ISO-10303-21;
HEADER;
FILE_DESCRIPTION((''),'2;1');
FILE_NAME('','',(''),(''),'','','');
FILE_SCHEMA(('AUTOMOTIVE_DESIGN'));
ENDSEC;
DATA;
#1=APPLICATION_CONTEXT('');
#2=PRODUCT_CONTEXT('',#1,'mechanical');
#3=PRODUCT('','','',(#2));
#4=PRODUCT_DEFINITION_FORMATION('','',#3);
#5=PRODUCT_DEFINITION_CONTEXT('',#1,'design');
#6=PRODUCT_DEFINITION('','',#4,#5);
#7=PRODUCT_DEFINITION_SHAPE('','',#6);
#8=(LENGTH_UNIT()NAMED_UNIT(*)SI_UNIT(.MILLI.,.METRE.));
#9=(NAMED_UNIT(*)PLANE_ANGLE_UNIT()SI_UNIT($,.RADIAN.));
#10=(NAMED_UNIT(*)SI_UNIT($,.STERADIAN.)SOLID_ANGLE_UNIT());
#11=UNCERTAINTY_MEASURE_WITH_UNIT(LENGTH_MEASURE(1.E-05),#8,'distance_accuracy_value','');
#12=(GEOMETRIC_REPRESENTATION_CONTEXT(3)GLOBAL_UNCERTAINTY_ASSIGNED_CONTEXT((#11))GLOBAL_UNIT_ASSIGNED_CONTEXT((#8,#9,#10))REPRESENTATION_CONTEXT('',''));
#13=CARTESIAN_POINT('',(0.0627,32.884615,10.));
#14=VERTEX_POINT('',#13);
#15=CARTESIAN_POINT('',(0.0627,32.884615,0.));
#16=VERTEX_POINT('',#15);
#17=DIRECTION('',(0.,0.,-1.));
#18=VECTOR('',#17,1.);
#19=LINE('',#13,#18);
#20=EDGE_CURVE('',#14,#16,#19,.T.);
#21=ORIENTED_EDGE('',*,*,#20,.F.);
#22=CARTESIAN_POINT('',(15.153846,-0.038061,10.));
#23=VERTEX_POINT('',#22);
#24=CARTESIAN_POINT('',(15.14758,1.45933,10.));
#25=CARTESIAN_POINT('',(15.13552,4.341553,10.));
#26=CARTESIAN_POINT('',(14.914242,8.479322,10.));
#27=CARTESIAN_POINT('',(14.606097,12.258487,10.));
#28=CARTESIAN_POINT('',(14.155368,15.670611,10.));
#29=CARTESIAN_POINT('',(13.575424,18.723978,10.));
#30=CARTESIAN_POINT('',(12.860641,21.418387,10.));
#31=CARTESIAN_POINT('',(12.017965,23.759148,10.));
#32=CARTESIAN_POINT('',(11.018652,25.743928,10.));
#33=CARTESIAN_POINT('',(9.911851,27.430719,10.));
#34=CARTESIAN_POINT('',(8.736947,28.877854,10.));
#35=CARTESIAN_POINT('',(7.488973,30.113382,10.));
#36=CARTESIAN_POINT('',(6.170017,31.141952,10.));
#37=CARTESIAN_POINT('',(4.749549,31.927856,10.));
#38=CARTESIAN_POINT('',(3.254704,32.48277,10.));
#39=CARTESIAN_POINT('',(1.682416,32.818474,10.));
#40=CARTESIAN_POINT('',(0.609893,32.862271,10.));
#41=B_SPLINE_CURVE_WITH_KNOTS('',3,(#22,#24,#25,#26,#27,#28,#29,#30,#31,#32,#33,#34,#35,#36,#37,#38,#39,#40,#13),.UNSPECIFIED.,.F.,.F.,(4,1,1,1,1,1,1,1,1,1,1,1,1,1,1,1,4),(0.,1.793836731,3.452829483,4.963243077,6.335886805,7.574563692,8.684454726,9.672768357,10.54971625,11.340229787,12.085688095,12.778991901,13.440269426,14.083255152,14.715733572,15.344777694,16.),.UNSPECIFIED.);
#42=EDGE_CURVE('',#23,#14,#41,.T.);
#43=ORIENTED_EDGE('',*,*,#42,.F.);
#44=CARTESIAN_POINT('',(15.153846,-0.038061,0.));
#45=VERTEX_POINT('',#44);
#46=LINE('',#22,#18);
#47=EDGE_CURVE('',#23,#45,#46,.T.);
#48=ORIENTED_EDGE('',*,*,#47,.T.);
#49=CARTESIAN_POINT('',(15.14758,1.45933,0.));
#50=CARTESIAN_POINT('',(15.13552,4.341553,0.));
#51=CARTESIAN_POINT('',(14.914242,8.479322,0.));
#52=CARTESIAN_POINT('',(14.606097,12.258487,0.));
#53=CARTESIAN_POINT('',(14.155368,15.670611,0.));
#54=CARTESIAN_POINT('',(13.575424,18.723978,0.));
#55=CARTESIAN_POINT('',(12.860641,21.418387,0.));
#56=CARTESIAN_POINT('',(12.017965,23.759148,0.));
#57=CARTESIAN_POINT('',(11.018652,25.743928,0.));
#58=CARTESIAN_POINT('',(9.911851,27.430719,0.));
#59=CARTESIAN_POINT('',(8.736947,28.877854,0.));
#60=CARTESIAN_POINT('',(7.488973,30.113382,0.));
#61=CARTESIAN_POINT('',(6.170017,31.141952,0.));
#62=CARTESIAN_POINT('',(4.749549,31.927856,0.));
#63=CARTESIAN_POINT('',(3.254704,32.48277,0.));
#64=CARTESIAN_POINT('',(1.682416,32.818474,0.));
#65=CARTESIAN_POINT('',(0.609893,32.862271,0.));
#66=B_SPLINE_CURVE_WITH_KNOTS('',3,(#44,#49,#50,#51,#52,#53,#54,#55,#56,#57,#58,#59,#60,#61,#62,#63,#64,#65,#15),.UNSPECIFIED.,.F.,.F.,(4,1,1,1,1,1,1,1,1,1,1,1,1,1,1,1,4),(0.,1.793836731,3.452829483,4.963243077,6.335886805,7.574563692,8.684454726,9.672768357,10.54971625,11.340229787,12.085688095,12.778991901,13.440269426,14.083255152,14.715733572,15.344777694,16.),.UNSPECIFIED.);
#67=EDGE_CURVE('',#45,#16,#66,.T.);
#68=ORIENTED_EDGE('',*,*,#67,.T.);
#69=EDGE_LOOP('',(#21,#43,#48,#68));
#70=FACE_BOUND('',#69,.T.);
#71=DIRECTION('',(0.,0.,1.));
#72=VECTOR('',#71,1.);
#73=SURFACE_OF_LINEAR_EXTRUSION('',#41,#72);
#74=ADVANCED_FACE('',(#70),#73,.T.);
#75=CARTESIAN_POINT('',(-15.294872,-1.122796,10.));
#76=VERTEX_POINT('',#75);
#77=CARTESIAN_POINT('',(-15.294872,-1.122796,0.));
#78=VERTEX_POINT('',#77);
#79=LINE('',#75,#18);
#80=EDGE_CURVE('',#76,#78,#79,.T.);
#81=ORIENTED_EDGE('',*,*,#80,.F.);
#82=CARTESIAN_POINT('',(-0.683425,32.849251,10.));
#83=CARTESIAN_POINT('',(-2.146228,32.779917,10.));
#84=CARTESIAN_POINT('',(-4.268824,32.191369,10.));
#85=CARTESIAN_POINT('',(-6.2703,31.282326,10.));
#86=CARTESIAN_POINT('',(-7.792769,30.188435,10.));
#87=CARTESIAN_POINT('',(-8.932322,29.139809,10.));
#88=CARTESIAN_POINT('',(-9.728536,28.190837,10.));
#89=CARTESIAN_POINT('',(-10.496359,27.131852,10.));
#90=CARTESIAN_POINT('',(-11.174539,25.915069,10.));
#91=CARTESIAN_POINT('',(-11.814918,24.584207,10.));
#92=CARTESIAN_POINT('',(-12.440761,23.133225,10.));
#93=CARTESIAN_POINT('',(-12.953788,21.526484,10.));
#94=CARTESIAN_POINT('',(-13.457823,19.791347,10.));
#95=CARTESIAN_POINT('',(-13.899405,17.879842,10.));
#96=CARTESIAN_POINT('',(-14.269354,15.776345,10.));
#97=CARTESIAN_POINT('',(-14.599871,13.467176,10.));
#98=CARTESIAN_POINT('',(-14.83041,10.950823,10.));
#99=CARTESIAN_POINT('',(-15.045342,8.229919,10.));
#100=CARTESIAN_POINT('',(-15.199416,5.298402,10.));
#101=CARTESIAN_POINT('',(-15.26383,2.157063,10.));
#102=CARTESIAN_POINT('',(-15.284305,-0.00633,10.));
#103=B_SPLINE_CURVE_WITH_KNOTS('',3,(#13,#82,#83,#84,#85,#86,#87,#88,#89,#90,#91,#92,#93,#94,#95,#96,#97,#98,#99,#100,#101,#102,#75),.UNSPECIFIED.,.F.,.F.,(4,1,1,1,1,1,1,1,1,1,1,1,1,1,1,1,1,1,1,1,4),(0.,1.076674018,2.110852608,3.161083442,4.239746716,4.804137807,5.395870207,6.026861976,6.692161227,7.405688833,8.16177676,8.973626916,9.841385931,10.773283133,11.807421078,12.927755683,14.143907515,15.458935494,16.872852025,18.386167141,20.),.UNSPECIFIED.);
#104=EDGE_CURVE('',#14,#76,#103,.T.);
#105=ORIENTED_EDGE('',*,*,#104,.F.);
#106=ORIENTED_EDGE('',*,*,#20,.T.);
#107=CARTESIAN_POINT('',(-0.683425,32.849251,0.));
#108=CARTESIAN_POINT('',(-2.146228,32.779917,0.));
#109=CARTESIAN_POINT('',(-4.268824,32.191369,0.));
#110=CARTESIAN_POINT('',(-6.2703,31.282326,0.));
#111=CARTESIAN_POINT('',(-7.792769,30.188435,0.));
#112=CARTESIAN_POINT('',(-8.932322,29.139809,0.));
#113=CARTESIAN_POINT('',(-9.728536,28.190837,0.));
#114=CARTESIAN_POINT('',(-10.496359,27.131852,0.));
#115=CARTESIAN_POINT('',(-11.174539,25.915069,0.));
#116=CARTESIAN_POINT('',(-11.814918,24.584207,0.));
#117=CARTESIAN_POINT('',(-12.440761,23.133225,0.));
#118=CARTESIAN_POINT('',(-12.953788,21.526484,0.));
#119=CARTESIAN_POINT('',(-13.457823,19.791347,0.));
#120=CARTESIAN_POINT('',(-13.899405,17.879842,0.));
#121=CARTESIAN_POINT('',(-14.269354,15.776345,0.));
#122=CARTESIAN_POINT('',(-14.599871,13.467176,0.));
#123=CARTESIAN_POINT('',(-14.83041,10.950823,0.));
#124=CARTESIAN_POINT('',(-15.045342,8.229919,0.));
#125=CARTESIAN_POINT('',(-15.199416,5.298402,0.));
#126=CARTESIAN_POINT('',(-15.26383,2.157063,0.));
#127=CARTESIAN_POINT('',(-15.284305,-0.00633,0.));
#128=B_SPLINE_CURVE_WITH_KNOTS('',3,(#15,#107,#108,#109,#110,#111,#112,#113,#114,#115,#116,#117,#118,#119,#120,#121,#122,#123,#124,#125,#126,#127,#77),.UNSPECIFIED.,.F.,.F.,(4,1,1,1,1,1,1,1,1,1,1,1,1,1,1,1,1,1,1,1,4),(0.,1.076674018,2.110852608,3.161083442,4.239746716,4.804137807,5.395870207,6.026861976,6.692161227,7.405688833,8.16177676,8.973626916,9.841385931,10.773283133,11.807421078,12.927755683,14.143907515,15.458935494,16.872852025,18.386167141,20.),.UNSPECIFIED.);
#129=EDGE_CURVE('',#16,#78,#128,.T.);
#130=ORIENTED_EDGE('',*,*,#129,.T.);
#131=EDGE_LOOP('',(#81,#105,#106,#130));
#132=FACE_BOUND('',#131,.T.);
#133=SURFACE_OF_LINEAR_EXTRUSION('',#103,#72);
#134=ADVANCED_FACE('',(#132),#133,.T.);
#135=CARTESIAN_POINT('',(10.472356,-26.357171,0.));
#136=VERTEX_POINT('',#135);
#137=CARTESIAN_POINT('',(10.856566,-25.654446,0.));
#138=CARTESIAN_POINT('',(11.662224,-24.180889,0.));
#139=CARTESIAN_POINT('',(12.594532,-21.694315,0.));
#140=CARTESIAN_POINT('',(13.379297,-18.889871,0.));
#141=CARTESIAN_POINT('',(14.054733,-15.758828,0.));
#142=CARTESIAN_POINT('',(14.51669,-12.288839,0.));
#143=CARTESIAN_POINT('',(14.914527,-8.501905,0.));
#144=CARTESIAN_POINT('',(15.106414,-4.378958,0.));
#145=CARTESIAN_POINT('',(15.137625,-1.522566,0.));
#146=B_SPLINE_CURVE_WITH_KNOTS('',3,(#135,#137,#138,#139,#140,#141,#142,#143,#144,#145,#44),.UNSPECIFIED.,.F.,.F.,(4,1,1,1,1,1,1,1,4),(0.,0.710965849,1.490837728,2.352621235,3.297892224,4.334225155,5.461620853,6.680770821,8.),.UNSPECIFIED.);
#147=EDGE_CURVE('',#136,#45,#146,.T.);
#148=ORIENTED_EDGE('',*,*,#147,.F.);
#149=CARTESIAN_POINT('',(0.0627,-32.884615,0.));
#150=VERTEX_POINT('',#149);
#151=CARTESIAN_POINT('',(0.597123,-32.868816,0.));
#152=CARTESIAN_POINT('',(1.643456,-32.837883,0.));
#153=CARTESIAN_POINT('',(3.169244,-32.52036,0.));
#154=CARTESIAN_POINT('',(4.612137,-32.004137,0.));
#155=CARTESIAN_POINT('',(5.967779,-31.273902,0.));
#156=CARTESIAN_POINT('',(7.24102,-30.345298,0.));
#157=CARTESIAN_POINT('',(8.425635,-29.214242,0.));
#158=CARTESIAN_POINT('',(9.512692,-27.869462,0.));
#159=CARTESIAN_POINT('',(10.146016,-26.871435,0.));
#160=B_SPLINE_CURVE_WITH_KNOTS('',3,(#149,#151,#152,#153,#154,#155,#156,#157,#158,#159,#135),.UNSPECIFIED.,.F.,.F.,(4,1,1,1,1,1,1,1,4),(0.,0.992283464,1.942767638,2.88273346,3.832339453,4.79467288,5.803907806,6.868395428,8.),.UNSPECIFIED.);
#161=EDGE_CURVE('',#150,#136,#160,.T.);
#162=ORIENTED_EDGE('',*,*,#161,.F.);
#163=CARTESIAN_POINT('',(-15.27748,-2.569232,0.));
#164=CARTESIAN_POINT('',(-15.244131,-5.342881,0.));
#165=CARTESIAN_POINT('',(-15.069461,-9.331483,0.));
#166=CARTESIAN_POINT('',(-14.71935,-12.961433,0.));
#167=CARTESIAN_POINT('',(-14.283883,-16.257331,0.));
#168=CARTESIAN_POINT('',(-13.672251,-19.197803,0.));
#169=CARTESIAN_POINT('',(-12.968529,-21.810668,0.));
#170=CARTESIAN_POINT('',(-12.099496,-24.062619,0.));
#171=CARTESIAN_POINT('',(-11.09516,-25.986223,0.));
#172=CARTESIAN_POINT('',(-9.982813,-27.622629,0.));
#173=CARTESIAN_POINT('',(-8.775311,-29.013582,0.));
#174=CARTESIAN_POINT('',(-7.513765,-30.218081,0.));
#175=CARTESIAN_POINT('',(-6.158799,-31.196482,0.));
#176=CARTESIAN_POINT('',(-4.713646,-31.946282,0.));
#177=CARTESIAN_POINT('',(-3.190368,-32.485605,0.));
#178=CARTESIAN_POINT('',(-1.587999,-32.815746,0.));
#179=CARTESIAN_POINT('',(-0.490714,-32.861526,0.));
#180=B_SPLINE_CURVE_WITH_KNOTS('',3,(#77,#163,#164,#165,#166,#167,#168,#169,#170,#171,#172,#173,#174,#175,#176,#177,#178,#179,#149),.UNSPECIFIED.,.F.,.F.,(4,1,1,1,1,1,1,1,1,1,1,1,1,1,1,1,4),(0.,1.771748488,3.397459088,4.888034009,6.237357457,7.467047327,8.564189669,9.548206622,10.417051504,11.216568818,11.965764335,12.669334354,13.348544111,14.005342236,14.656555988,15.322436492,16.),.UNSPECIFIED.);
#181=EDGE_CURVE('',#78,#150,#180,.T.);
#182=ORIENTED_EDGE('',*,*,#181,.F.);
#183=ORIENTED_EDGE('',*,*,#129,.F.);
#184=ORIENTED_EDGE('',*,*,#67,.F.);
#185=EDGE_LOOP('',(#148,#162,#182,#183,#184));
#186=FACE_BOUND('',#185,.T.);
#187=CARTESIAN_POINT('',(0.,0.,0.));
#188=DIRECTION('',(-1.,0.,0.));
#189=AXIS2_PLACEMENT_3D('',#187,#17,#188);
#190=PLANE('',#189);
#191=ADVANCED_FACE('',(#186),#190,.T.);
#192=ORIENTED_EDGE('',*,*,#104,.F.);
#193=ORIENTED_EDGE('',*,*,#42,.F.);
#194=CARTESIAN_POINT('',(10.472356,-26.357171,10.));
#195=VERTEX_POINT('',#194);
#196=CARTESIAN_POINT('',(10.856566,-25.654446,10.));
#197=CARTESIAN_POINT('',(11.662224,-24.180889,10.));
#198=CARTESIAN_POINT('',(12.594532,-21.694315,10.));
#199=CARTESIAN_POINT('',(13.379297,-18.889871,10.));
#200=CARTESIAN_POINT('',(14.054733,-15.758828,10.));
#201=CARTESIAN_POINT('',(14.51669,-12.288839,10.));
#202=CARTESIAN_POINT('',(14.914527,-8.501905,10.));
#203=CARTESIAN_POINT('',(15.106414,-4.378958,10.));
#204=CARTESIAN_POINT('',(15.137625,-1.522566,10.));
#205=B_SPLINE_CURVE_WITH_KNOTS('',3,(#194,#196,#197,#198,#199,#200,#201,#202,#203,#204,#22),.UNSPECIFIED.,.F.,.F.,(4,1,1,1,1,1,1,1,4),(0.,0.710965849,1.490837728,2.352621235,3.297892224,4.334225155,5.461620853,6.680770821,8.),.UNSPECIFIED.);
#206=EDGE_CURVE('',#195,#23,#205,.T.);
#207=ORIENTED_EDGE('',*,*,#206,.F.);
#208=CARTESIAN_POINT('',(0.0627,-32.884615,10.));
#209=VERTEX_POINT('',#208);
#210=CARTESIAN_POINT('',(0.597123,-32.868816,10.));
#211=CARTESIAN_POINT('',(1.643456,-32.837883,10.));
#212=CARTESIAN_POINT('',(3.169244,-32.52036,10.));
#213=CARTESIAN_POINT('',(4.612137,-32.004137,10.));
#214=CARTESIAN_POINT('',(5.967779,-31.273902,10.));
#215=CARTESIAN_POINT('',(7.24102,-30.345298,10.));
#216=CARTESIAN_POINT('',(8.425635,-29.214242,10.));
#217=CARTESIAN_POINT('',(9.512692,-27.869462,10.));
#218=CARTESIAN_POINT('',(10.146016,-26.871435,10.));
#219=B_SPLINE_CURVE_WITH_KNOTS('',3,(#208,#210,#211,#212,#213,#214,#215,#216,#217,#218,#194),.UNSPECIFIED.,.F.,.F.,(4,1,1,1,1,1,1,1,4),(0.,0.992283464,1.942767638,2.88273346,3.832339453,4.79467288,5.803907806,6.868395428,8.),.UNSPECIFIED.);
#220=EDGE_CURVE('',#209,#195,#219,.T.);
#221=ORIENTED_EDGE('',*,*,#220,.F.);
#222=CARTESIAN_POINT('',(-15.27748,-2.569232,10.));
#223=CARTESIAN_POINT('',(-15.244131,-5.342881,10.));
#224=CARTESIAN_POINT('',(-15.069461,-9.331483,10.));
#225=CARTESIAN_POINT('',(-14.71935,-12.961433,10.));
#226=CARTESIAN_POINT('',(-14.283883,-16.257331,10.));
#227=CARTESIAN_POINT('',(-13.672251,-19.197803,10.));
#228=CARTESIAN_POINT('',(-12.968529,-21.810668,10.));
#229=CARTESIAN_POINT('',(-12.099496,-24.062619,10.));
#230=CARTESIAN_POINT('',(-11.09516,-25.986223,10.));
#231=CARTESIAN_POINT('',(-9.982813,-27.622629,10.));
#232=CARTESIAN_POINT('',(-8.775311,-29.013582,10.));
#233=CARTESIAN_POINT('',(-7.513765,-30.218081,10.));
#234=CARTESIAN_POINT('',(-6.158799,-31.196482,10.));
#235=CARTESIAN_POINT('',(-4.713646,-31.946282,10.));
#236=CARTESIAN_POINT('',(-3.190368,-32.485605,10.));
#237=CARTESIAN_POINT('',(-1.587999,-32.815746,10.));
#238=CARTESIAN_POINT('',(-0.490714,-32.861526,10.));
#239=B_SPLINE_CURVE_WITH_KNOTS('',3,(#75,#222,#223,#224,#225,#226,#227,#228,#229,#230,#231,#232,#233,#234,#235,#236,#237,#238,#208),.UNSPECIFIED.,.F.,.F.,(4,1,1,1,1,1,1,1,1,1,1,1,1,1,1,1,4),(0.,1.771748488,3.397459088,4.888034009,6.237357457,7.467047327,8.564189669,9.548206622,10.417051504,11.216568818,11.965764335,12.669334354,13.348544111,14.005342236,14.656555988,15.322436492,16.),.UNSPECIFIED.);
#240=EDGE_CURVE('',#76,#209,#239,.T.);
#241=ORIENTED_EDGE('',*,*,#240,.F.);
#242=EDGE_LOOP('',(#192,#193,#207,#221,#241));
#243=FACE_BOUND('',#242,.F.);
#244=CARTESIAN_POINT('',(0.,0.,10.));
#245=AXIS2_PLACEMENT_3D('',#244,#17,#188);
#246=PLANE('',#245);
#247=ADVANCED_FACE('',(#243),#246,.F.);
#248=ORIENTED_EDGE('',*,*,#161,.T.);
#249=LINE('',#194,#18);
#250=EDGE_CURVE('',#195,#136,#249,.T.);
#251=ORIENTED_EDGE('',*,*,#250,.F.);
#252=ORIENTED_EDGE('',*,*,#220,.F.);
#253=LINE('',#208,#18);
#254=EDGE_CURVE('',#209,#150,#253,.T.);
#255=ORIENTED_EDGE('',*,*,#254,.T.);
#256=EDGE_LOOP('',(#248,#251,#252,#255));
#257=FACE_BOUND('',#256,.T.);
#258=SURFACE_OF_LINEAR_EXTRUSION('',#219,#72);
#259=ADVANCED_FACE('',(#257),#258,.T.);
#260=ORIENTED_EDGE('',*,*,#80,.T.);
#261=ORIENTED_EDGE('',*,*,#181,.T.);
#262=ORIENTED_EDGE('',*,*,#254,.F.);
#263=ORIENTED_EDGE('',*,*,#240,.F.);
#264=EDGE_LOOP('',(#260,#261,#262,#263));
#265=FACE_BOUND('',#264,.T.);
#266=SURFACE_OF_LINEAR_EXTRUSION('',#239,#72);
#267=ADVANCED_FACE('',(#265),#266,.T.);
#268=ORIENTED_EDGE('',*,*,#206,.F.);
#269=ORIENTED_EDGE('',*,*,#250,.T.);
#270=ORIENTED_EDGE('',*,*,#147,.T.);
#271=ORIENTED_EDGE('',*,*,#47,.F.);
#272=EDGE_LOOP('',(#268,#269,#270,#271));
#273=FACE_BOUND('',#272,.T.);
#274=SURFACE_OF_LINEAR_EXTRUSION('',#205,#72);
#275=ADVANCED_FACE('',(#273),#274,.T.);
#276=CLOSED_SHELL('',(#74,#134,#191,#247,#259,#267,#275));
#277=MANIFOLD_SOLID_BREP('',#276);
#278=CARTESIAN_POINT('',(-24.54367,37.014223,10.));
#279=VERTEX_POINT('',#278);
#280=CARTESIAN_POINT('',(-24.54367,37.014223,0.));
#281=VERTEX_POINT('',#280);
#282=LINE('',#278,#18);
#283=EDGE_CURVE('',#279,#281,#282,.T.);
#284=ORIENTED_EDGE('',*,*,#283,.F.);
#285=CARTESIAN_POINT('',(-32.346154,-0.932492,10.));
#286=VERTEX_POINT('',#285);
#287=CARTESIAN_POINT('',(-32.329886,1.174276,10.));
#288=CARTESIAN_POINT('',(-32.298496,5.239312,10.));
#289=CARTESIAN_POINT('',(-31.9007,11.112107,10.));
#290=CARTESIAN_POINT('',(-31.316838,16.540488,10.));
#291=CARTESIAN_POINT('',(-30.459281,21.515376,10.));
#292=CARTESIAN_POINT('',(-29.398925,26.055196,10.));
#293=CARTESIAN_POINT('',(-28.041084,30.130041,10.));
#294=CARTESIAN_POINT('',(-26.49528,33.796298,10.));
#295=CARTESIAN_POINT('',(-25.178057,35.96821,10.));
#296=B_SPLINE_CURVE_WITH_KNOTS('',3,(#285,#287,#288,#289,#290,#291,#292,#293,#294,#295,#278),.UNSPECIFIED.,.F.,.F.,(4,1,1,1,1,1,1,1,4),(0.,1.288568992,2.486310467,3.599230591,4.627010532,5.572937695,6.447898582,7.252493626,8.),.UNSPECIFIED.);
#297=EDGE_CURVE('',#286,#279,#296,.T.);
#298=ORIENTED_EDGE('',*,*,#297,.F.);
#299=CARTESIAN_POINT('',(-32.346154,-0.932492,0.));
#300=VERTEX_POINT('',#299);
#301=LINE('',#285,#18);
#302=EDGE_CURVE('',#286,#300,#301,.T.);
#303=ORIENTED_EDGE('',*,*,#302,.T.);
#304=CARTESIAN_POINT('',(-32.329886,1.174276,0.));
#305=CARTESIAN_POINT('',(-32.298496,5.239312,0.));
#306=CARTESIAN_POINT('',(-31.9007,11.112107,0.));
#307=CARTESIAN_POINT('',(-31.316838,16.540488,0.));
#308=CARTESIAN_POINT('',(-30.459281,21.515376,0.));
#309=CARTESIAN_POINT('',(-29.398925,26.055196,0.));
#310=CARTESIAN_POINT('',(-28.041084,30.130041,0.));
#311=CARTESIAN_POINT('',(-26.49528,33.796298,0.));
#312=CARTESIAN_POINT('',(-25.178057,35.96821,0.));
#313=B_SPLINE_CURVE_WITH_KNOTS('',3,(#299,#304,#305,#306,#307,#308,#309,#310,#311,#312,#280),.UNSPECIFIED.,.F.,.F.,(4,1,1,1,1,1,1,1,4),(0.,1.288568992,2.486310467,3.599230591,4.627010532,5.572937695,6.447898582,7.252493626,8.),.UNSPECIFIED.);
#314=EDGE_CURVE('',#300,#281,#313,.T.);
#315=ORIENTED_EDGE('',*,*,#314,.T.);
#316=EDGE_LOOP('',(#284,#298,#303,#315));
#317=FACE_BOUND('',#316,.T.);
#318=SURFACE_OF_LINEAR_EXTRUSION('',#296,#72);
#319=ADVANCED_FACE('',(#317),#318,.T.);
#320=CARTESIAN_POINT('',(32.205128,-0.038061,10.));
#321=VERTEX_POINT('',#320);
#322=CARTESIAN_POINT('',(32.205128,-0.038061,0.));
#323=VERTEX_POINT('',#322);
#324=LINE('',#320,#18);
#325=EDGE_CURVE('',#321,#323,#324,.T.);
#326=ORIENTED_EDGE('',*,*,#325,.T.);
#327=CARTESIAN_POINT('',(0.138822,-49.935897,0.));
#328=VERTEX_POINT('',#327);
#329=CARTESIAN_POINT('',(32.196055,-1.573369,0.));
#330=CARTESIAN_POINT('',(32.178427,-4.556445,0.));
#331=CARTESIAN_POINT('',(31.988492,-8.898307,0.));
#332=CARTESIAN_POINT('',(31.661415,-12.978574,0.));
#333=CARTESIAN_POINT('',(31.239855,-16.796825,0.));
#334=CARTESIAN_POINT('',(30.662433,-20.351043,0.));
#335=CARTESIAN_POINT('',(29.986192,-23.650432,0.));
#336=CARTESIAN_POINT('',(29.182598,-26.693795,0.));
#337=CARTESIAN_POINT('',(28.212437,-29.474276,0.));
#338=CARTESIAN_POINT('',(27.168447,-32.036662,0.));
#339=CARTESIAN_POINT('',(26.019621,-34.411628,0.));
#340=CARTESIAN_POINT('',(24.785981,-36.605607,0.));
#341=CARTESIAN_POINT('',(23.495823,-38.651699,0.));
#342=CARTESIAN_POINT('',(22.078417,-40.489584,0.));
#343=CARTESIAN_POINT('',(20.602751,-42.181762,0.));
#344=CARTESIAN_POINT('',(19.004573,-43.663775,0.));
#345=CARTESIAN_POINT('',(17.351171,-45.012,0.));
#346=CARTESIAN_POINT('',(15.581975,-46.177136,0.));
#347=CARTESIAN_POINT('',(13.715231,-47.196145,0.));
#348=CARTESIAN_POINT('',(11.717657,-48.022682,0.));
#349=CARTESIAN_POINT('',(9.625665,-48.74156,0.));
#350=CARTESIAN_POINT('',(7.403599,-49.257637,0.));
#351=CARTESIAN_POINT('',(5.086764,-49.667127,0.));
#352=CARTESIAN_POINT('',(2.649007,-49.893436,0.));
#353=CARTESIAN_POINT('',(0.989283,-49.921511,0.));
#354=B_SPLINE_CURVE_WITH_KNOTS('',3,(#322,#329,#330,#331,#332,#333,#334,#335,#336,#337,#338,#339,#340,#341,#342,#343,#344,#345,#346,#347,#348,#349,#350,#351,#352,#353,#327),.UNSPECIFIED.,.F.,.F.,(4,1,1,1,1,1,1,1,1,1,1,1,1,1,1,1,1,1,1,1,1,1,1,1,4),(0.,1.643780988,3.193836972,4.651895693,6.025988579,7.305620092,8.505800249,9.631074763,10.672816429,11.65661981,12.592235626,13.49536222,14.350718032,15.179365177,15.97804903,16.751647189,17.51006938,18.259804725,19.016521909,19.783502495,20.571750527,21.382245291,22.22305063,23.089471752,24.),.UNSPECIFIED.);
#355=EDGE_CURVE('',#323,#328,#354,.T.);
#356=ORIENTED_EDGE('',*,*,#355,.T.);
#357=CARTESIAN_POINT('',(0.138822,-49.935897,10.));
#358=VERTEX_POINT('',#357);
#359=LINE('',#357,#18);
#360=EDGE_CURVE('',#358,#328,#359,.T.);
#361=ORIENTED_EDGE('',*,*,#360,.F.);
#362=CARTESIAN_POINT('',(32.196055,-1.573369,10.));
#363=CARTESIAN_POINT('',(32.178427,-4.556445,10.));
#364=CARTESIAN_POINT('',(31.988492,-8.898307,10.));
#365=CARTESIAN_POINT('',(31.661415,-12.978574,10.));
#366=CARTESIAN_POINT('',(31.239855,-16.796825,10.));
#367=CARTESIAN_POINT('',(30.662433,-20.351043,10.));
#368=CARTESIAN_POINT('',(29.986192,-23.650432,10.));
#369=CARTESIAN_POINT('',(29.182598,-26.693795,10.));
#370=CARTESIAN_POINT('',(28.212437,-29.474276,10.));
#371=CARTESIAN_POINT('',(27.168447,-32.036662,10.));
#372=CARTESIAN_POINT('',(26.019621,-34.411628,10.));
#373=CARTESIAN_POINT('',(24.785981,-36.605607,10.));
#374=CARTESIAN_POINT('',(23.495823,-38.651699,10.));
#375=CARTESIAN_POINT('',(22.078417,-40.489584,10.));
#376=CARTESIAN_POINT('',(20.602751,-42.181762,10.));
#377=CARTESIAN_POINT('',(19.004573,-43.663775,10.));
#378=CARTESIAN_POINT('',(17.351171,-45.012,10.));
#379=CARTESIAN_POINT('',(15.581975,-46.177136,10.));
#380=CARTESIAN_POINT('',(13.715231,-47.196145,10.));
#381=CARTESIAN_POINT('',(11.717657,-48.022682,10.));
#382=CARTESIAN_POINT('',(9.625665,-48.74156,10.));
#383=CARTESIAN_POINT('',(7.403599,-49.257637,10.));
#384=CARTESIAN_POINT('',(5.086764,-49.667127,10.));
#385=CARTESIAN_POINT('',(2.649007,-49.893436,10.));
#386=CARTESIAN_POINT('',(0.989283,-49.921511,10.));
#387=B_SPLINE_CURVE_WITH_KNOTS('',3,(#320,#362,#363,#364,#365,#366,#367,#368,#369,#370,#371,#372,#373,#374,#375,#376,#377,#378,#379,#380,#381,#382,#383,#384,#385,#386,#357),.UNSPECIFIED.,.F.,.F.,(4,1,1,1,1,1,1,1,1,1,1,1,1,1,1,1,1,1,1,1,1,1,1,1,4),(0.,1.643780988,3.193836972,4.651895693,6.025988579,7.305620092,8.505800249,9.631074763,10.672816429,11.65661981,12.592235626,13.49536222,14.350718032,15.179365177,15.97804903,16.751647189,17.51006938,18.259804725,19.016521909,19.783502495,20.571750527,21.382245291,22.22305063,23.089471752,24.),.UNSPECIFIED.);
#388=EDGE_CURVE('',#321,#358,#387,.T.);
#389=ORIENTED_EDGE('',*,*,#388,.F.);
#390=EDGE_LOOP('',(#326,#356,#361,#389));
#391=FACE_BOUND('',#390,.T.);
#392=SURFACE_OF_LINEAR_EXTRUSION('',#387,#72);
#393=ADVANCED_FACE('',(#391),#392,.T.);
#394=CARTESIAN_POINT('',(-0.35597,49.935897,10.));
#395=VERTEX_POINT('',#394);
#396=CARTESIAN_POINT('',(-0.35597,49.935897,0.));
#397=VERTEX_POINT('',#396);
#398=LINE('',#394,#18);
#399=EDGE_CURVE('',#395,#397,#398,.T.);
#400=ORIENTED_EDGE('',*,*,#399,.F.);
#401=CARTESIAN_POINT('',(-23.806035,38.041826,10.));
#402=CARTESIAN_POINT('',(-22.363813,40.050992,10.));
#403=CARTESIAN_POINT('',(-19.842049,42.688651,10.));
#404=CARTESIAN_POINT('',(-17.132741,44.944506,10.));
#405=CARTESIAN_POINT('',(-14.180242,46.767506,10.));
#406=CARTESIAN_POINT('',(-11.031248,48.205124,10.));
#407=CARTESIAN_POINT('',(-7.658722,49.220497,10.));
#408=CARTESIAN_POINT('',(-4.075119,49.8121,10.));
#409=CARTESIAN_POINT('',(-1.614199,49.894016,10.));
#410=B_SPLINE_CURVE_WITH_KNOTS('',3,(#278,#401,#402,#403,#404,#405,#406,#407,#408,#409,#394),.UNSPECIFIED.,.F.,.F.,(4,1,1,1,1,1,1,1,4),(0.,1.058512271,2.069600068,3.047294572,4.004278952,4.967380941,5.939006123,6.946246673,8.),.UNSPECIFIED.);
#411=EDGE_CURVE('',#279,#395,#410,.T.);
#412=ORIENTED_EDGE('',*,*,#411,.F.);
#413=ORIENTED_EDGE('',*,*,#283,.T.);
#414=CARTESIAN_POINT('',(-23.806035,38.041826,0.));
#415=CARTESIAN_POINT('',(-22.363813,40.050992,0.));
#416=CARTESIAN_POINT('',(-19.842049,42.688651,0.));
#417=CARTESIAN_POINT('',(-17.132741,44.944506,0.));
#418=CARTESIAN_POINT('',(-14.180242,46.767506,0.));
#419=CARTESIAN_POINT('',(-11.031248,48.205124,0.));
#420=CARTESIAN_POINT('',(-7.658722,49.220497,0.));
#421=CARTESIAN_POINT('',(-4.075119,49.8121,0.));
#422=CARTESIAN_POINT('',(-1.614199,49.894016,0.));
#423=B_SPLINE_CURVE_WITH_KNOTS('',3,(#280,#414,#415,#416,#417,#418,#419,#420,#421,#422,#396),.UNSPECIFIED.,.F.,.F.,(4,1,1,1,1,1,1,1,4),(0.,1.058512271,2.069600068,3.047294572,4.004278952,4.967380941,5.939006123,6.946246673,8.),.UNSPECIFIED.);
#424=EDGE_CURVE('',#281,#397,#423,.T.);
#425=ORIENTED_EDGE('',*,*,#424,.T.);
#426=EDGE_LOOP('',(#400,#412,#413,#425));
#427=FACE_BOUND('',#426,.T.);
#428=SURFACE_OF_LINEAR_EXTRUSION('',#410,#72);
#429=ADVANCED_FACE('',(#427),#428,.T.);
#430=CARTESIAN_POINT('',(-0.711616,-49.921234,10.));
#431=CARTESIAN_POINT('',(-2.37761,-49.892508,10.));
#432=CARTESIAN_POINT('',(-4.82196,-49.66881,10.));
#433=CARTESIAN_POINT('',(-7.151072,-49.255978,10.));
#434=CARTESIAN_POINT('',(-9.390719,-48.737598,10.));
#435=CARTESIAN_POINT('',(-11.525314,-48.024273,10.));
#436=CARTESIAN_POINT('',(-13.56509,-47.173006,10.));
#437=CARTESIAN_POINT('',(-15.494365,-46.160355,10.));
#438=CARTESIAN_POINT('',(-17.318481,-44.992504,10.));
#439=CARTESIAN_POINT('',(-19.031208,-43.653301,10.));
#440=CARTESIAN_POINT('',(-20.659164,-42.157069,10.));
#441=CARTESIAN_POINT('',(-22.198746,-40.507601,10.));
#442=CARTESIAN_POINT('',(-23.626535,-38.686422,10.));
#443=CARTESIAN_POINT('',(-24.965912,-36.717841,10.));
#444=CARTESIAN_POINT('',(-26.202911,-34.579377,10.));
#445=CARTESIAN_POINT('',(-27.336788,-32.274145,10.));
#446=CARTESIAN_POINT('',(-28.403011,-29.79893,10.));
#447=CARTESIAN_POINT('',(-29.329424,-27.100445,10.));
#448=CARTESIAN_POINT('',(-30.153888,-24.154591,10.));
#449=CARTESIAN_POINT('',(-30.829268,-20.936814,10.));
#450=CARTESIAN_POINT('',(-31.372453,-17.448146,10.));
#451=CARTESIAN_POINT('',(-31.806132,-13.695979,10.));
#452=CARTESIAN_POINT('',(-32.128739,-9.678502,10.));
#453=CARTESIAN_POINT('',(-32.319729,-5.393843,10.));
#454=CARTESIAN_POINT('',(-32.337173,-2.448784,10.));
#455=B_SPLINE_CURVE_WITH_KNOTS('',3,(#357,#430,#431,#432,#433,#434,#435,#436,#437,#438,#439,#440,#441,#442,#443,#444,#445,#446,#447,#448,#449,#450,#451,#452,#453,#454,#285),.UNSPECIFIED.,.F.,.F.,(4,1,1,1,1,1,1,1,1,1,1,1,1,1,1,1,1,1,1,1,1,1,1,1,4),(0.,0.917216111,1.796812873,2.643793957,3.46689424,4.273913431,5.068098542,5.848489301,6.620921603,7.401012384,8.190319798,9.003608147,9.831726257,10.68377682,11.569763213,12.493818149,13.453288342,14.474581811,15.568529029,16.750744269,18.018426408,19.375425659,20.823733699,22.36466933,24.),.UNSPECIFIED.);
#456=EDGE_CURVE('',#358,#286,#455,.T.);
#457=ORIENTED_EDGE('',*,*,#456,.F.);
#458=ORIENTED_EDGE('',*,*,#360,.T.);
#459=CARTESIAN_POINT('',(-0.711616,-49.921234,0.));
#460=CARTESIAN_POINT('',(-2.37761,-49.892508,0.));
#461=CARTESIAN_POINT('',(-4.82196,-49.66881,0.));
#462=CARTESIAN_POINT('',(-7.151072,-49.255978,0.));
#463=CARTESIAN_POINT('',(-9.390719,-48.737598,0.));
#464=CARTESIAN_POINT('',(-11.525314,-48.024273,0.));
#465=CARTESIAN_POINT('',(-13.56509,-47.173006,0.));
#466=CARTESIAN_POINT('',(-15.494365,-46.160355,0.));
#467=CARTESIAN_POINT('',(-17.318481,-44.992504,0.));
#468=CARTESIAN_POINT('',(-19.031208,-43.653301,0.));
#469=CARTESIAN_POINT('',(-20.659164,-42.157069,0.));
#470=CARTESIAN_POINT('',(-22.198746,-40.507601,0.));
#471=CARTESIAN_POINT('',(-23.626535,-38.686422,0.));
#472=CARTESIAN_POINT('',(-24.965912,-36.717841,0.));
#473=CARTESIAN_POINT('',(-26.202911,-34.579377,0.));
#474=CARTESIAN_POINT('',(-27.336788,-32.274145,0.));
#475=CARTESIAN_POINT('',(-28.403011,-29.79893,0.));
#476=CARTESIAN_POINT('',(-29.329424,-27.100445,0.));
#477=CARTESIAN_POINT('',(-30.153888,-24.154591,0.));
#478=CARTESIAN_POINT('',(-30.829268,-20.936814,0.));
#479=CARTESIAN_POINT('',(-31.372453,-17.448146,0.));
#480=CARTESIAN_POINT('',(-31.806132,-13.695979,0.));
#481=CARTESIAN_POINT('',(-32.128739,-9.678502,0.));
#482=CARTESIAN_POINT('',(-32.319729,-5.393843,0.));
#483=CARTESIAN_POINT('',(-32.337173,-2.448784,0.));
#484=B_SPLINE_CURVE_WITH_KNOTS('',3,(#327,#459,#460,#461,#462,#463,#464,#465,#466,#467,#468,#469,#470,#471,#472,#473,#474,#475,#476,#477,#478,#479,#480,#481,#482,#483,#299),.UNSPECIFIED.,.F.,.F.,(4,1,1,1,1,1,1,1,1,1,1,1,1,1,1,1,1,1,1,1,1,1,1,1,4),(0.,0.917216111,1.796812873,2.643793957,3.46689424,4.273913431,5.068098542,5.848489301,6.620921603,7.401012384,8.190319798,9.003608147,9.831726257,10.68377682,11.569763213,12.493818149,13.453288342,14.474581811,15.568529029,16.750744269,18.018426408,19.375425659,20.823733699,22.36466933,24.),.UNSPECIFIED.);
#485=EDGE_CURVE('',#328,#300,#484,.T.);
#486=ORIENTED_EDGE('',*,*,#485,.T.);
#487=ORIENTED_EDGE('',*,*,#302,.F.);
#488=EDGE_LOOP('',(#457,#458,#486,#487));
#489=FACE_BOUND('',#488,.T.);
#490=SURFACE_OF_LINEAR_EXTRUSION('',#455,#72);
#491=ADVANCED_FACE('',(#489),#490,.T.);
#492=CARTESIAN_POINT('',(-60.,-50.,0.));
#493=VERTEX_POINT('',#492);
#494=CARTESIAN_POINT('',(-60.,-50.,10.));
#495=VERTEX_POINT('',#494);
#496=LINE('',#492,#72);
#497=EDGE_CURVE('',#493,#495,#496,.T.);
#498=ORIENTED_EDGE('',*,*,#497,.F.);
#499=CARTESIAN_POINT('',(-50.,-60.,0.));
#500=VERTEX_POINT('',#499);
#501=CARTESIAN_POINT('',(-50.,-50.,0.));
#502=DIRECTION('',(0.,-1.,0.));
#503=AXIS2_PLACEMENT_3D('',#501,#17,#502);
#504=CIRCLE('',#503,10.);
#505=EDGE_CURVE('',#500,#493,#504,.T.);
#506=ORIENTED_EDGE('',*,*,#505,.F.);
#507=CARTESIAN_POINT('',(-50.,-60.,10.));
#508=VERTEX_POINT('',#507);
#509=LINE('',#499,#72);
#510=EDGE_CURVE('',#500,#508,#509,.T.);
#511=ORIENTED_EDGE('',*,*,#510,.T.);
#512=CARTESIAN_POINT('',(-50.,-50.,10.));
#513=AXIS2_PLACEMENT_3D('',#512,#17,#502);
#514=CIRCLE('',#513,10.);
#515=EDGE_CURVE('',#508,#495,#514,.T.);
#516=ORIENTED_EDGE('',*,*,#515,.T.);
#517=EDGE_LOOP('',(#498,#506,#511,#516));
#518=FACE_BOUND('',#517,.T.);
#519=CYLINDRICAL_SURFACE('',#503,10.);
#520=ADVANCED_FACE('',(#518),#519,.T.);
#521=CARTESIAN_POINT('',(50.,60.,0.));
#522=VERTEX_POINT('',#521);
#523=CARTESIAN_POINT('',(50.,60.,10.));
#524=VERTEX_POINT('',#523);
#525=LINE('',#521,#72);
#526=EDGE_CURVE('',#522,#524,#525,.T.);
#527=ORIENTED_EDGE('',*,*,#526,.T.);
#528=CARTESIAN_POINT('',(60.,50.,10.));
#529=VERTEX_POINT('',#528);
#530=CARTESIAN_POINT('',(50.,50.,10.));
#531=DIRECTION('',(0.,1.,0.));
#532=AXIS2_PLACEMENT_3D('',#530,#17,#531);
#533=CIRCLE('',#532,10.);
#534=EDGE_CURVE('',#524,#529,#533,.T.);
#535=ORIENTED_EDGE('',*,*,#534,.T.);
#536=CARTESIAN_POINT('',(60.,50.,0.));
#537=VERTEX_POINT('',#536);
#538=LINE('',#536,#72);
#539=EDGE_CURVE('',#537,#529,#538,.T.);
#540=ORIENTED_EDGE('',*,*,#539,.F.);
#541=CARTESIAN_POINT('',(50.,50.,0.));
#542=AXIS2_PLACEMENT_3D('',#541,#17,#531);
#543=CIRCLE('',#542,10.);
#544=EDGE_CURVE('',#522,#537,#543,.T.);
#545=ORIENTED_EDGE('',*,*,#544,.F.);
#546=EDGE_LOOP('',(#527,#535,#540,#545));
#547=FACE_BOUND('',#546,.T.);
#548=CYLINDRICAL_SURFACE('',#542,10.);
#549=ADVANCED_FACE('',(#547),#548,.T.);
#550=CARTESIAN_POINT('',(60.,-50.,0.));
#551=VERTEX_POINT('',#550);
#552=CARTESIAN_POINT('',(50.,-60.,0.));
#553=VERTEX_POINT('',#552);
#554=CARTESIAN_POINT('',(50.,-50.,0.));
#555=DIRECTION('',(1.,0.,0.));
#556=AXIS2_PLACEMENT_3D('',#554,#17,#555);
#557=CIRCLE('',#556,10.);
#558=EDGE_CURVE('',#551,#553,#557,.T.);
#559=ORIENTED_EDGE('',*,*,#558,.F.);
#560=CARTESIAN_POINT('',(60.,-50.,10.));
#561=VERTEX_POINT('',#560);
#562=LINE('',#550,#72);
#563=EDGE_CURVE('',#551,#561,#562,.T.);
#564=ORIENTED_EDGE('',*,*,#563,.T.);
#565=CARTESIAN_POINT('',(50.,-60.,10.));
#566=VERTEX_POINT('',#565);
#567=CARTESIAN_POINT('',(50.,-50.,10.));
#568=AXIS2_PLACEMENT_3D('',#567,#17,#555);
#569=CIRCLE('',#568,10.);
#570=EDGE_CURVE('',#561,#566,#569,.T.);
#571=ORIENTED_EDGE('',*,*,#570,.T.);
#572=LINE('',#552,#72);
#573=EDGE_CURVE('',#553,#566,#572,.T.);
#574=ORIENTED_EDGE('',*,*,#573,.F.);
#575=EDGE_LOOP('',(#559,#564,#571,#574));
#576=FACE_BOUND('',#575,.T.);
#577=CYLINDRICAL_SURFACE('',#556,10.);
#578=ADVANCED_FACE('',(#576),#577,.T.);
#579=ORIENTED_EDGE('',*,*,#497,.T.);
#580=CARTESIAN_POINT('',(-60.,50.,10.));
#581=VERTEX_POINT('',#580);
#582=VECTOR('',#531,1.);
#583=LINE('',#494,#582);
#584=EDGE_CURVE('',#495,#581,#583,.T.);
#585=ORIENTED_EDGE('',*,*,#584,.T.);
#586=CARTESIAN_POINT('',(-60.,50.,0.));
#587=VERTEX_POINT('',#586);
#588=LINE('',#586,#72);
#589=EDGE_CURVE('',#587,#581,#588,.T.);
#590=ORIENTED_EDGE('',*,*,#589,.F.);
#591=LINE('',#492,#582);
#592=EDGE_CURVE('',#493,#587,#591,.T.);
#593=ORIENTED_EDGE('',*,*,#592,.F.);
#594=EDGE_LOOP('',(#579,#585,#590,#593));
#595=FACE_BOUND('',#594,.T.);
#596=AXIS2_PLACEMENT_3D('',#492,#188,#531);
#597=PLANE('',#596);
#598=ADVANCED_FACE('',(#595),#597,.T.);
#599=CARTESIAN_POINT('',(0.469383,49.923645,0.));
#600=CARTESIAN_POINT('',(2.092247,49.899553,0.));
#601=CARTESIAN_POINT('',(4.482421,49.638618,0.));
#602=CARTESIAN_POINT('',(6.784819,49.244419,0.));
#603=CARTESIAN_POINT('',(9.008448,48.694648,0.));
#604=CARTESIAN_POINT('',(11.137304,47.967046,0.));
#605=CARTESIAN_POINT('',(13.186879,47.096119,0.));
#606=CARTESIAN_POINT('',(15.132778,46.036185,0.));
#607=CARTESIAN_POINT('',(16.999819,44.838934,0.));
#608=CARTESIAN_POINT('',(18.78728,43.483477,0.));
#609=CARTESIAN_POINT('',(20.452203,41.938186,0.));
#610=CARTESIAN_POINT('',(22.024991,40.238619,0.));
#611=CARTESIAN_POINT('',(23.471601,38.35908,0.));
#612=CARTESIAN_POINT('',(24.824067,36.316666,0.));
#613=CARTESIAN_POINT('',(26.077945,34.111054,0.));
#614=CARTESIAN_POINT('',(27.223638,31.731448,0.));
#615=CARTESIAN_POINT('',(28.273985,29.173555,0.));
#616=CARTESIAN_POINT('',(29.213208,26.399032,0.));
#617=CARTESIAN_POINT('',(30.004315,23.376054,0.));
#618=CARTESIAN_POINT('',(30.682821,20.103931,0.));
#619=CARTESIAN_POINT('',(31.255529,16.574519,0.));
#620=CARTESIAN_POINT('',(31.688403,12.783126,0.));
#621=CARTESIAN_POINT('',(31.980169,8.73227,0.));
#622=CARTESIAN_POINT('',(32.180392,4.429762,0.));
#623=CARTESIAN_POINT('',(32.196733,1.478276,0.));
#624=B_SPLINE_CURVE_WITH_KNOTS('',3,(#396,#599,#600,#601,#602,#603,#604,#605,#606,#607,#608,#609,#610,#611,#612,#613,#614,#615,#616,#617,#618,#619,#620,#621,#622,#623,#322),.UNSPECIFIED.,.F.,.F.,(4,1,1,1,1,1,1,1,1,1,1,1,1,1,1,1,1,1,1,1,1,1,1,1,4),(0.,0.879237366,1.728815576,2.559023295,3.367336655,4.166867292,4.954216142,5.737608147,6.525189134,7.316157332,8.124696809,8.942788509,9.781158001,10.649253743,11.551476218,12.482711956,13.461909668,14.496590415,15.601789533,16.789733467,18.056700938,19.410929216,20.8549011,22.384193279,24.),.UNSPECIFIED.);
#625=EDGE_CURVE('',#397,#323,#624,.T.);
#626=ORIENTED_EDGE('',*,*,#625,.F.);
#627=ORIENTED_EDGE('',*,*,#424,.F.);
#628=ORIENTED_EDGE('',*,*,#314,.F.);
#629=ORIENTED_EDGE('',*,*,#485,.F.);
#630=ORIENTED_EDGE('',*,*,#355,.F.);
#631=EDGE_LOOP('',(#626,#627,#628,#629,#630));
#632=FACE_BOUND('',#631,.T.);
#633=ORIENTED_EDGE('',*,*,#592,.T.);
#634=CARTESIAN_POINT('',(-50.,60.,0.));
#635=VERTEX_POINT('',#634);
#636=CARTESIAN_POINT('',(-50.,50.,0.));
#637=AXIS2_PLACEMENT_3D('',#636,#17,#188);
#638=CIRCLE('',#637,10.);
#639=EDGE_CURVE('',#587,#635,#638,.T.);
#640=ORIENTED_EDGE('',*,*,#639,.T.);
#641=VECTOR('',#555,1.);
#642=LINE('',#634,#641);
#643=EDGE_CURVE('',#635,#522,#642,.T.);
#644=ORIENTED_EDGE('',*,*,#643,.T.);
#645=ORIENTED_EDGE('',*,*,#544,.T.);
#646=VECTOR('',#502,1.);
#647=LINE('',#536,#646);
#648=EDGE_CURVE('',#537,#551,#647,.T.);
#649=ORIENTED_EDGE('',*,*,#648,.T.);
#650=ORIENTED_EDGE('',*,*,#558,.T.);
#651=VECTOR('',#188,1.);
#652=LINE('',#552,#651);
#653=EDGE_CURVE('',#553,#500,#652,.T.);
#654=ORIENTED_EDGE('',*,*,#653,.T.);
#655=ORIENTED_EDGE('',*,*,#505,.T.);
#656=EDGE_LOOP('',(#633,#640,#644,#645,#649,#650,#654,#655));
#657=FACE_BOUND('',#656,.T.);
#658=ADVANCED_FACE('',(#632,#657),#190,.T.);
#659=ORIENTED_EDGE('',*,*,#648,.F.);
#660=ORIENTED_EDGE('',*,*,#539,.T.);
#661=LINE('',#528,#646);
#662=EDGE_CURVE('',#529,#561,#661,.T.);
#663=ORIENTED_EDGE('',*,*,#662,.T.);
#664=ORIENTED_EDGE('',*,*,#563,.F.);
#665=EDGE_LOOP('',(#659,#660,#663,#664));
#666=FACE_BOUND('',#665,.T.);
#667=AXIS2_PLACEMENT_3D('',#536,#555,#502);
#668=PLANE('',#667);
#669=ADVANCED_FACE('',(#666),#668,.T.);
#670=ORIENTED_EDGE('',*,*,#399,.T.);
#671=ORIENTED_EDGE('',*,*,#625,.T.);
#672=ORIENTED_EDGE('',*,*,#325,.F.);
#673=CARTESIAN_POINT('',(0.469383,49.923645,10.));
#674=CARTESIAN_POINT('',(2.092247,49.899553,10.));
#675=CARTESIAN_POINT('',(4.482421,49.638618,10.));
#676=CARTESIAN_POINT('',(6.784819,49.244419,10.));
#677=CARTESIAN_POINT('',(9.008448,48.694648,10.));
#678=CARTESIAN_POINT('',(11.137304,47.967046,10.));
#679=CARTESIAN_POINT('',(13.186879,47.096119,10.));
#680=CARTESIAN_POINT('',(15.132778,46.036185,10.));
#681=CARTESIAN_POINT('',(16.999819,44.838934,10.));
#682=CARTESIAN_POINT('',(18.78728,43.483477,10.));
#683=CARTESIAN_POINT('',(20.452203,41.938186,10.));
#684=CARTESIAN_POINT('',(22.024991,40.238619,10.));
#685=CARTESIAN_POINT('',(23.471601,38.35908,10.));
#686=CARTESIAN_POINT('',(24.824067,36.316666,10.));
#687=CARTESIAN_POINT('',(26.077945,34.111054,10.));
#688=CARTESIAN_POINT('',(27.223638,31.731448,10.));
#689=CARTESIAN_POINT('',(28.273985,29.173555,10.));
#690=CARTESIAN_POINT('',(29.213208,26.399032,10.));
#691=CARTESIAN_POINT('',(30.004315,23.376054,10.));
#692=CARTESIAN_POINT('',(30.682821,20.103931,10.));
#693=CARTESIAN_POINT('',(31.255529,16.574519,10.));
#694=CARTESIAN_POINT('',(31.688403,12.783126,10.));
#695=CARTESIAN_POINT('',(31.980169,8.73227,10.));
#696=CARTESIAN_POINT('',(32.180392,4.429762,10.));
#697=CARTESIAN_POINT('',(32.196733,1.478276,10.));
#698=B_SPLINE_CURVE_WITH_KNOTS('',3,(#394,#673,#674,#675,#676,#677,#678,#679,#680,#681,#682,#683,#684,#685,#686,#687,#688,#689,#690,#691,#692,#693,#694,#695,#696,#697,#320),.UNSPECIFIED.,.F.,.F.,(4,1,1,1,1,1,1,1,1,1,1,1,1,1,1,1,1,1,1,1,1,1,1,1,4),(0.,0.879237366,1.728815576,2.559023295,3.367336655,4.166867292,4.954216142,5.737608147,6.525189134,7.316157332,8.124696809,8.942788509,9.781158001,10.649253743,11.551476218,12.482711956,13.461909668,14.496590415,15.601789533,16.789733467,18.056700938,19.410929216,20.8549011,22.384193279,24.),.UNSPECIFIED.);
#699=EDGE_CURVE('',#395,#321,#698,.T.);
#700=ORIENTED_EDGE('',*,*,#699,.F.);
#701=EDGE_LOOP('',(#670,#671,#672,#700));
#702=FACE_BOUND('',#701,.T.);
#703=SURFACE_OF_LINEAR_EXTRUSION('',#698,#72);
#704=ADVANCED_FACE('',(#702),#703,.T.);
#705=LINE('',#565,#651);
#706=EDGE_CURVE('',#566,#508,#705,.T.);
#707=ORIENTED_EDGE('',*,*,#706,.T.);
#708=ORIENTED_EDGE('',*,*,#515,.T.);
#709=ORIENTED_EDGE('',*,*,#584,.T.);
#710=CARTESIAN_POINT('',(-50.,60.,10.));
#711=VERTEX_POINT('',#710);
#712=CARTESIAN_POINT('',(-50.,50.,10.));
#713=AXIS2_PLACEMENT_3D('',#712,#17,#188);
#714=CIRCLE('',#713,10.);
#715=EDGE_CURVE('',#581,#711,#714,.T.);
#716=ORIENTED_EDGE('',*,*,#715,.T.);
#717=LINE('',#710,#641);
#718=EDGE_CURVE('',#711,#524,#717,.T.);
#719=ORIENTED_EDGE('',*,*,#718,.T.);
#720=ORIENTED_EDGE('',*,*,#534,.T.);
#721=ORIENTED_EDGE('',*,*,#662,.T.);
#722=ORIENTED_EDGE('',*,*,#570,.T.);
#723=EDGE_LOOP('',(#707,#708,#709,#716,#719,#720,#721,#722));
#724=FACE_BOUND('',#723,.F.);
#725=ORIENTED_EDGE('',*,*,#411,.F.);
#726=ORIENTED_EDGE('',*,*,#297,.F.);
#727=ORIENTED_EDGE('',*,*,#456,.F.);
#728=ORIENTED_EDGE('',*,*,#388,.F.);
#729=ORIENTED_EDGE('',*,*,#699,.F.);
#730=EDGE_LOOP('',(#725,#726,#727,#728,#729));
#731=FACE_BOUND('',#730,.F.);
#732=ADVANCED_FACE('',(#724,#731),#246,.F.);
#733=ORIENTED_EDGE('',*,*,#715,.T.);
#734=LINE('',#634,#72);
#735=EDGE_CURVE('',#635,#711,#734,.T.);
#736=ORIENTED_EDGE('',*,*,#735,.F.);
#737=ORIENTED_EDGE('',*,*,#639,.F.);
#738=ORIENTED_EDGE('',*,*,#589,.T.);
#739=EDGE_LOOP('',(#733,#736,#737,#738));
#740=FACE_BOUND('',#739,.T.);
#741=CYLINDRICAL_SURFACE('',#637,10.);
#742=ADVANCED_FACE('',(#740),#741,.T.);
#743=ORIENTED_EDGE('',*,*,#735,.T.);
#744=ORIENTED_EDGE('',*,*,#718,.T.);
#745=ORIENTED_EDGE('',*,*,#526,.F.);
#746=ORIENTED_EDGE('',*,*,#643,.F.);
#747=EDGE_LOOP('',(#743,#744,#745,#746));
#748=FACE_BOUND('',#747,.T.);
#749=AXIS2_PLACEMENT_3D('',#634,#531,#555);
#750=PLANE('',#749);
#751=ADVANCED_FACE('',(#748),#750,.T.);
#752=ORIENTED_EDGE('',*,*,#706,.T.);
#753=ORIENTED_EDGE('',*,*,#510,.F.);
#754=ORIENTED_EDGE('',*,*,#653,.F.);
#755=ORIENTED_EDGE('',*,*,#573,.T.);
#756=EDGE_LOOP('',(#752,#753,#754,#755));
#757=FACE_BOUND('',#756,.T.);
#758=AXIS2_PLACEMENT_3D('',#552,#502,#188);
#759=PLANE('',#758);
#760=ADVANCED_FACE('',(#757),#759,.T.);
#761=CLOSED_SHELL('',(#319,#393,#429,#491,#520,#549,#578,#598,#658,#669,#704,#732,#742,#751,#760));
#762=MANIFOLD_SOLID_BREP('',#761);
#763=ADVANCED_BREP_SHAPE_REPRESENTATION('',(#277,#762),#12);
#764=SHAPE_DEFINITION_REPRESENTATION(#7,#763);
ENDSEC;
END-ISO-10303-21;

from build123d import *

# Parameters (mm, degrees)
BOSS_EXTRUDE1_DEPTH = 10
CUT_EXTRUDE9_DEPTH  = 10


with BuildPart() as part:
    # Sketch1 → Boss-Extrude1 (new body)
    with BuildSketch(Plane.XY):
        with BuildLine():
            Line((-50, 60), (50, 60))
            ThreePointArc((50, 60), (57.071067812, 57.071067812), (60, 50))
            Line((60, 50), (60, -50))
            ThreePointArc((60, -50), (57.071067812, -57.071067812), (50, -60))
            Line((50, -60), (-50, -60))
            ThreePointArc((-50, -60), (-57.071067812, -57.071067812), (-60, -50))
            Line((-60, -50), (-60, 50))
            ThreePointArc((-60, 50), (-57.071067812, 57.071067812), (-50, 60))
        make_face()
    extrude(amount=BOSS_EXTRUDE1_DEPTH)

    # Sketch2 → Cut-Extrude9 (cut)
    with BuildSketch(Plane.XY.offset(10)):
        with BuildLine():
            add(Edge.make_bspline(
                [(-0.355969551, 49.935897436), (0.469383272, 49.923644841), (2.092247439, 49.899552965), (4.482420878, 49.638618324), (6.78481874, 49.244418855), (9.008448293, 48.694648055), (11.137303626, 47.967045984), (13.186878987, 47.096118777), (15.132778499, 46.036184508), (16.999818598, 44.838934314), (18.787280098, 43.483477371), (20.452202613, 41.938186469), (22.024991165, 40.238618816), (23.471600674, 38.359079999), (24.824066748, 36.316666414), (26.077945411, 34.111054202), (27.223637911, 31.731448367), (28.273984728, 29.173554722), (29.213208168, 26.399031546), (30.004314908, 23.376053852), (30.682821314, 20.103931296), (31.255528594, 16.574519064), (31.688402734, 12.783125727), (31.980168618, 8.732270097), (32.180392178, 4.429761628), (32.19673303, 1.47827617), (32.205128205, -0.038060897)],
                knots=[0, 0, 0, 0, 0.879237366, 1.728815576, 2.559023295, 3.367336655, 4.166867292, 4.954216142, 5.737608147, 6.525189134, 7.316157332, 8.124696809, 8.942788509, 9.781158001, 10.649253743, 11.551476218, 12.482711956, 13.461909668, 14.496590415, 15.601789533, 16.789733467, 18.056700938, 19.410929216, 20.8549011, 22.384193279, 24, 24, 24, 24], degree=3))
            add(Edge.make_bspline(
                [(32.205128205, -0.038060897), (32.196055289, -1.573369046), (32.178426775, -4.556445238), (31.98849197, -8.898306638), (31.661415261, -12.97857391), (31.239855194, -16.796824928), (30.662433215, -20.351043334), (29.986191811, -23.650432162), (29.182597691, -26.693795466), (28.212436531, -29.474275901), (27.168447487, -32.036661767), (26.019621026, -34.411627937), (24.785981031, -36.605607132), (23.495823484, -38.651698514), (22.078417204, -40.489584347), (20.602751349, -42.181762361), (19.004572794, -43.663775323), (17.351171034, -45.011999532), (15.581975276, -46.177135811), (13.715230768, -47.19614479), (11.717656699, -48.022682101), (9.625665447, -48.741560107), (7.403598595, -49.257636949), (5.086764482, -49.667126963), (2.649006517, -49.893436261), (0.989282707, -49.921511419), (0.138822115, -49.935897436)],
                knots=[0, 0, 0, 0, 1.643780988, 3.193836972, 4.651895693, 6.025988579, 7.305620092, 8.505800249, 9.631074763, 10.672816429, 11.65661981, 12.592235626, 13.49536222, 14.350718032, 15.179365177, 15.97804903, 16.751647189, 17.51006938, 18.259804725, 19.016521909, 19.783502495, 20.571750527, 21.382245291, 22.22305063, 23.089471752, 24, 24, 24, 24], degree=3))
            add(Edge.make_bspline(
                [(0.138822115, -49.935897436), (-0.711615522, -49.921233922), (-2.377610346, -49.892508314), (-4.82196025, -49.668809668), (-7.151072419, -49.255978097), (-9.390719391, -48.73759805), (-11.525313574, -48.02427269), (-13.565090283, -47.173005975), (-15.494365399, -46.160355104), (-17.318480783, -44.992504168), (-19.031208385, -43.653300599), (-20.659163982, -42.157068682), (-22.198746442, -40.50760098), (-23.626534898, -38.686422088), (-24.965912393, -36.717840949), (-26.202911339, -34.579377322), (-27.33678833, -32.27414476), (-28.403011249, -29.798930006), (-29.329424003, -27.100444523), (-30.153888339, -24.15459118), (-30.829267837, -20.936813858), (-31.372453222, -17.448146304), (-31.806132121, -13.695979411), (-32.128739375, -9.678502118), (-32.319729182, -5.393843179), (-32.337172823, -2.448783662), (-32.346153846, -0.932491987)],
                knots=[0, 0, 0, 0, 0.917216111, 1.796812873, 2.643793957, 3.46689424, 4.273913431, 5.068098542, 5.848489301, 6.620921603, 7.401012384, 8.190319798, 9.003608147, 9.831726257, 10.68377682, 11.569763213, 12.493818149, 13.453288342, 14.474581811, 15.568529029, 16.750744269, 18.018426408, 19.375425659, 20.823733699, 22.36466933, 24, 24, 24, 24], degree=3))
            add(Edge.make_bspline(
                [(-32.346153846, -0.932491987), (-32.329885562, 1.174275928), (-32.298495698, 5.239311758), (-31.900700289, 11.112106626), (-31.31683752, 16.540488165), (-30.459281419, 21.515376031), (-29.398925159, 26.055195758), (-28.041083756, 30.130041389), (-26.495280093, 33.796297553), (-25.178056781, 35.968209776), (-24.543669872, 37.014222756)],
                knots=[0, 0, 0, 0, 1.288568992, 2.486310467, 3.599230591, 4.627010532, 5.572937695, 6.447898582, 7.252493626, 8, 8, 8, 8], degree=3))
            add(Edge.make_bspline(
                [(-24.543669872, 37.014222756), (-23.806034991, 38.041825582), (-22.363813448, 40.050991593), (-19.842048768, 42.688651004), (-17.132740948, 44.944506494), (-14.180242351, 46.767506031), (-11.031247971, 48.205123615), (-7.658722091, 49.220496723), (-4.075118883, 49.812100409), (-1.614198783, 49.894015537), (-0.355969551, 49.935897436)],
                knots=[0, 0, 0, 0, 1.058512271, 2.069600068, 3.047294572, 4.004278952, 4.967380941, 5.939006123, 6.946246673, 8, 8, 8, 8], degree=3))
        make_face()
        with BuildLine():
            add(Edge.make_bspline(
                [(0.062700321, 32.884615385), (-0.683425475, 32.849250505), (-2.146228103, 32.779916569), (-4.268824412, 32.191369271), (-6.270300203, 31.282326235), (-7.79276938, 30.188435071), (-8.932322417, 29.139809208), (-9.728536295, 28.190836906), (-10.49635909, 27.13185221), (-11.174538847, 25.915068584), (-11.814917568, 24.584206505), (-12.440760604, 23.133224653), (-12.953787556, 21.526483777), (-13.457822935, 19.791346881), (-13.899404957, 17.879842038), (-14.269353885, 15.776344805), (-14.599870734, 13.467175948), (-14.830410177, 10.950822957), (-15.045342122, 8.229918558), (-15.199415519, 5.298401631), (-15.263829739, 2.157063038), (-15.28430506, -0.006330233), (-15.294871795, -1.122796474)],
                knots=[0, 0, 0, 0, 1.076674018, 2.110852608, 3.161083442, 4.239746716, 4.804137807, 5.395870207, 6.026861976, 6.692161227, 7.405688833, 8.16177676, 8.973626916, 9.841385931, 10.773283133, 11.807421078, 12.927755683, 14.143907515, 15.458935494, 16.872852025, 18.386167141, 20, 20, 20, 20], degree=3))
            add(Edge.make_bspline(
                [(-15.294871795, -1.122796474), (-15.277480231, -2.569232463), (-15.244130617, -5.342880716), (-15.069460926, -9.33148348), (-14.719350027, -12.961433168), (-14.283882757, -16.257331292), (-13.672251194, -19.19780307), (-12.968529489, -21.810668093), (-12.099495755, -24.062618675), (-11.095159828, -25.986223088), (-9.982812536, -27.622629365), (-8.775310618, -29.01358207), (-7.513765188, -30.218081489), (-6.158799311, -31.196481524), (-4.71364553, -31.94628221), (-3.19036822, -32.485604584), (-1.587999362, -32.815746269), (-0.490713686, -32.861526307), (0.062700321, -32.884615385)],
                knots=[0, 0, 0, 0, 1.771748488, 3.397459088, 4.888034009, 6.237357457, 7.467047327, 8.564189669, 9.548206622, 10.417051504, 11.216568818, 11.965764335, 12.669334354, 13.348544111, 14.005342236, 14.656555988, 15.322436492, 16, 16, 16, 16], degree=3))
            add(Edge.make_bspline(
                [(0.062700321, -32.884615385), (0.597122912, -32.868816122), (1.643455894, -32.837883131), (3.169243716, -32.520360132), (4.612137098, -32.004136701), (5.967779494, -31.273902417), (7.241019849, -30.345297795), (8.425635348, -29.214242154), (9.51269186, -27.869461502), (10.146015918, -26.871435372), (10.472355769, -26.357171474)],
                knots=[0, 0, 0, 0, 0.992283464, 1.942767638, 2.88273346, 3.832339453, 4.79467288, 5.803907806, 6.868395428, 8, 8, 8, 8], degree=3))
            add(Edge.make_bspline(
                [(10.472355769, -26.357171474), (10.856565983, -25.654446294), (11.662223642, -24.18088858), (12.594532076, -21.694314882), (13.379297353, -18.889870725), (14.054733351, -15.758828412), (14.516690372, -12.288838726), (14.914527194, -8.501905171), (15.106413779, -4.378958283), (15.137625178, -1.522565806), (15.153846154, -0.038060897)],
                knots=[0, 0, 0, 0, 0.710965849, 1.490837728, 2.352621235, 3.297892224, 4.334225155, 5.461620853, 6.680770821, 8, 8, 8, 8], degree=3))
            add(Edge.make_bspline(
                [(15.153846154, -0.038060897), (15.147580341, 1.45933023), (15.135519722, 4.341552532), (14.914242276, 8.479321703), (14.606096526, 12.258487118), (14.15536825, 15.670611435), (13.575424398, 18.723977801), (12.860641413, 21.418386611), (12.017965444, 23.759148028), (11.01865217, 25.743927991), (9.91185063, 27.430718692), (8.736947008, 28.877854275), (7.488973334, 30.113382125), (6.170016624, 31.14195175), (4.749549166, 31.927856087), (3.254703739, 32.482769565), (1.682415797, 32.818473609), (0.609892831, 32.862270544), (0.062700321, 32.884615385)],
                knots=[0, 0, 0, 0, 1.793836731, 3.452829483, 4.963243077, 6.335886805, 7.574563692, 8.684454726, 9.672768357, 10.54971625, 11.340229787, 12.085688095, 12.778991901, 13.440269426, 14.083255152, 14.715733572, 15.344777694, 16, 16, 16, 16], degree=3))
        make_face(mode=Mode.SUBTRACT)
    extrude(amount=-CUT_EXTRUDE9_DEPTH, mode=Mode.SUBTRACT)


with BuildPart() as cut_extrude9_piece_1:
    # of the separate pieces the step leaves, piece 1, a body of its own (cut_extrude9_pieces)
    add(part.part.solids().sort_by_distance((-50, 60, 0))[0])


with BuildPart() as cut_extrude9_piece_2:
    # of the separate pieces the step leaves, piece 2, a body of its own (cut_extrude9_pieces)
    add(part.part.solids().sort_by_distance((0.062700321, 32.884615385, 0))[0])


solid = Compound([cut_extrude9_piece_1.part, cut_extrude9_piece_2.part])
